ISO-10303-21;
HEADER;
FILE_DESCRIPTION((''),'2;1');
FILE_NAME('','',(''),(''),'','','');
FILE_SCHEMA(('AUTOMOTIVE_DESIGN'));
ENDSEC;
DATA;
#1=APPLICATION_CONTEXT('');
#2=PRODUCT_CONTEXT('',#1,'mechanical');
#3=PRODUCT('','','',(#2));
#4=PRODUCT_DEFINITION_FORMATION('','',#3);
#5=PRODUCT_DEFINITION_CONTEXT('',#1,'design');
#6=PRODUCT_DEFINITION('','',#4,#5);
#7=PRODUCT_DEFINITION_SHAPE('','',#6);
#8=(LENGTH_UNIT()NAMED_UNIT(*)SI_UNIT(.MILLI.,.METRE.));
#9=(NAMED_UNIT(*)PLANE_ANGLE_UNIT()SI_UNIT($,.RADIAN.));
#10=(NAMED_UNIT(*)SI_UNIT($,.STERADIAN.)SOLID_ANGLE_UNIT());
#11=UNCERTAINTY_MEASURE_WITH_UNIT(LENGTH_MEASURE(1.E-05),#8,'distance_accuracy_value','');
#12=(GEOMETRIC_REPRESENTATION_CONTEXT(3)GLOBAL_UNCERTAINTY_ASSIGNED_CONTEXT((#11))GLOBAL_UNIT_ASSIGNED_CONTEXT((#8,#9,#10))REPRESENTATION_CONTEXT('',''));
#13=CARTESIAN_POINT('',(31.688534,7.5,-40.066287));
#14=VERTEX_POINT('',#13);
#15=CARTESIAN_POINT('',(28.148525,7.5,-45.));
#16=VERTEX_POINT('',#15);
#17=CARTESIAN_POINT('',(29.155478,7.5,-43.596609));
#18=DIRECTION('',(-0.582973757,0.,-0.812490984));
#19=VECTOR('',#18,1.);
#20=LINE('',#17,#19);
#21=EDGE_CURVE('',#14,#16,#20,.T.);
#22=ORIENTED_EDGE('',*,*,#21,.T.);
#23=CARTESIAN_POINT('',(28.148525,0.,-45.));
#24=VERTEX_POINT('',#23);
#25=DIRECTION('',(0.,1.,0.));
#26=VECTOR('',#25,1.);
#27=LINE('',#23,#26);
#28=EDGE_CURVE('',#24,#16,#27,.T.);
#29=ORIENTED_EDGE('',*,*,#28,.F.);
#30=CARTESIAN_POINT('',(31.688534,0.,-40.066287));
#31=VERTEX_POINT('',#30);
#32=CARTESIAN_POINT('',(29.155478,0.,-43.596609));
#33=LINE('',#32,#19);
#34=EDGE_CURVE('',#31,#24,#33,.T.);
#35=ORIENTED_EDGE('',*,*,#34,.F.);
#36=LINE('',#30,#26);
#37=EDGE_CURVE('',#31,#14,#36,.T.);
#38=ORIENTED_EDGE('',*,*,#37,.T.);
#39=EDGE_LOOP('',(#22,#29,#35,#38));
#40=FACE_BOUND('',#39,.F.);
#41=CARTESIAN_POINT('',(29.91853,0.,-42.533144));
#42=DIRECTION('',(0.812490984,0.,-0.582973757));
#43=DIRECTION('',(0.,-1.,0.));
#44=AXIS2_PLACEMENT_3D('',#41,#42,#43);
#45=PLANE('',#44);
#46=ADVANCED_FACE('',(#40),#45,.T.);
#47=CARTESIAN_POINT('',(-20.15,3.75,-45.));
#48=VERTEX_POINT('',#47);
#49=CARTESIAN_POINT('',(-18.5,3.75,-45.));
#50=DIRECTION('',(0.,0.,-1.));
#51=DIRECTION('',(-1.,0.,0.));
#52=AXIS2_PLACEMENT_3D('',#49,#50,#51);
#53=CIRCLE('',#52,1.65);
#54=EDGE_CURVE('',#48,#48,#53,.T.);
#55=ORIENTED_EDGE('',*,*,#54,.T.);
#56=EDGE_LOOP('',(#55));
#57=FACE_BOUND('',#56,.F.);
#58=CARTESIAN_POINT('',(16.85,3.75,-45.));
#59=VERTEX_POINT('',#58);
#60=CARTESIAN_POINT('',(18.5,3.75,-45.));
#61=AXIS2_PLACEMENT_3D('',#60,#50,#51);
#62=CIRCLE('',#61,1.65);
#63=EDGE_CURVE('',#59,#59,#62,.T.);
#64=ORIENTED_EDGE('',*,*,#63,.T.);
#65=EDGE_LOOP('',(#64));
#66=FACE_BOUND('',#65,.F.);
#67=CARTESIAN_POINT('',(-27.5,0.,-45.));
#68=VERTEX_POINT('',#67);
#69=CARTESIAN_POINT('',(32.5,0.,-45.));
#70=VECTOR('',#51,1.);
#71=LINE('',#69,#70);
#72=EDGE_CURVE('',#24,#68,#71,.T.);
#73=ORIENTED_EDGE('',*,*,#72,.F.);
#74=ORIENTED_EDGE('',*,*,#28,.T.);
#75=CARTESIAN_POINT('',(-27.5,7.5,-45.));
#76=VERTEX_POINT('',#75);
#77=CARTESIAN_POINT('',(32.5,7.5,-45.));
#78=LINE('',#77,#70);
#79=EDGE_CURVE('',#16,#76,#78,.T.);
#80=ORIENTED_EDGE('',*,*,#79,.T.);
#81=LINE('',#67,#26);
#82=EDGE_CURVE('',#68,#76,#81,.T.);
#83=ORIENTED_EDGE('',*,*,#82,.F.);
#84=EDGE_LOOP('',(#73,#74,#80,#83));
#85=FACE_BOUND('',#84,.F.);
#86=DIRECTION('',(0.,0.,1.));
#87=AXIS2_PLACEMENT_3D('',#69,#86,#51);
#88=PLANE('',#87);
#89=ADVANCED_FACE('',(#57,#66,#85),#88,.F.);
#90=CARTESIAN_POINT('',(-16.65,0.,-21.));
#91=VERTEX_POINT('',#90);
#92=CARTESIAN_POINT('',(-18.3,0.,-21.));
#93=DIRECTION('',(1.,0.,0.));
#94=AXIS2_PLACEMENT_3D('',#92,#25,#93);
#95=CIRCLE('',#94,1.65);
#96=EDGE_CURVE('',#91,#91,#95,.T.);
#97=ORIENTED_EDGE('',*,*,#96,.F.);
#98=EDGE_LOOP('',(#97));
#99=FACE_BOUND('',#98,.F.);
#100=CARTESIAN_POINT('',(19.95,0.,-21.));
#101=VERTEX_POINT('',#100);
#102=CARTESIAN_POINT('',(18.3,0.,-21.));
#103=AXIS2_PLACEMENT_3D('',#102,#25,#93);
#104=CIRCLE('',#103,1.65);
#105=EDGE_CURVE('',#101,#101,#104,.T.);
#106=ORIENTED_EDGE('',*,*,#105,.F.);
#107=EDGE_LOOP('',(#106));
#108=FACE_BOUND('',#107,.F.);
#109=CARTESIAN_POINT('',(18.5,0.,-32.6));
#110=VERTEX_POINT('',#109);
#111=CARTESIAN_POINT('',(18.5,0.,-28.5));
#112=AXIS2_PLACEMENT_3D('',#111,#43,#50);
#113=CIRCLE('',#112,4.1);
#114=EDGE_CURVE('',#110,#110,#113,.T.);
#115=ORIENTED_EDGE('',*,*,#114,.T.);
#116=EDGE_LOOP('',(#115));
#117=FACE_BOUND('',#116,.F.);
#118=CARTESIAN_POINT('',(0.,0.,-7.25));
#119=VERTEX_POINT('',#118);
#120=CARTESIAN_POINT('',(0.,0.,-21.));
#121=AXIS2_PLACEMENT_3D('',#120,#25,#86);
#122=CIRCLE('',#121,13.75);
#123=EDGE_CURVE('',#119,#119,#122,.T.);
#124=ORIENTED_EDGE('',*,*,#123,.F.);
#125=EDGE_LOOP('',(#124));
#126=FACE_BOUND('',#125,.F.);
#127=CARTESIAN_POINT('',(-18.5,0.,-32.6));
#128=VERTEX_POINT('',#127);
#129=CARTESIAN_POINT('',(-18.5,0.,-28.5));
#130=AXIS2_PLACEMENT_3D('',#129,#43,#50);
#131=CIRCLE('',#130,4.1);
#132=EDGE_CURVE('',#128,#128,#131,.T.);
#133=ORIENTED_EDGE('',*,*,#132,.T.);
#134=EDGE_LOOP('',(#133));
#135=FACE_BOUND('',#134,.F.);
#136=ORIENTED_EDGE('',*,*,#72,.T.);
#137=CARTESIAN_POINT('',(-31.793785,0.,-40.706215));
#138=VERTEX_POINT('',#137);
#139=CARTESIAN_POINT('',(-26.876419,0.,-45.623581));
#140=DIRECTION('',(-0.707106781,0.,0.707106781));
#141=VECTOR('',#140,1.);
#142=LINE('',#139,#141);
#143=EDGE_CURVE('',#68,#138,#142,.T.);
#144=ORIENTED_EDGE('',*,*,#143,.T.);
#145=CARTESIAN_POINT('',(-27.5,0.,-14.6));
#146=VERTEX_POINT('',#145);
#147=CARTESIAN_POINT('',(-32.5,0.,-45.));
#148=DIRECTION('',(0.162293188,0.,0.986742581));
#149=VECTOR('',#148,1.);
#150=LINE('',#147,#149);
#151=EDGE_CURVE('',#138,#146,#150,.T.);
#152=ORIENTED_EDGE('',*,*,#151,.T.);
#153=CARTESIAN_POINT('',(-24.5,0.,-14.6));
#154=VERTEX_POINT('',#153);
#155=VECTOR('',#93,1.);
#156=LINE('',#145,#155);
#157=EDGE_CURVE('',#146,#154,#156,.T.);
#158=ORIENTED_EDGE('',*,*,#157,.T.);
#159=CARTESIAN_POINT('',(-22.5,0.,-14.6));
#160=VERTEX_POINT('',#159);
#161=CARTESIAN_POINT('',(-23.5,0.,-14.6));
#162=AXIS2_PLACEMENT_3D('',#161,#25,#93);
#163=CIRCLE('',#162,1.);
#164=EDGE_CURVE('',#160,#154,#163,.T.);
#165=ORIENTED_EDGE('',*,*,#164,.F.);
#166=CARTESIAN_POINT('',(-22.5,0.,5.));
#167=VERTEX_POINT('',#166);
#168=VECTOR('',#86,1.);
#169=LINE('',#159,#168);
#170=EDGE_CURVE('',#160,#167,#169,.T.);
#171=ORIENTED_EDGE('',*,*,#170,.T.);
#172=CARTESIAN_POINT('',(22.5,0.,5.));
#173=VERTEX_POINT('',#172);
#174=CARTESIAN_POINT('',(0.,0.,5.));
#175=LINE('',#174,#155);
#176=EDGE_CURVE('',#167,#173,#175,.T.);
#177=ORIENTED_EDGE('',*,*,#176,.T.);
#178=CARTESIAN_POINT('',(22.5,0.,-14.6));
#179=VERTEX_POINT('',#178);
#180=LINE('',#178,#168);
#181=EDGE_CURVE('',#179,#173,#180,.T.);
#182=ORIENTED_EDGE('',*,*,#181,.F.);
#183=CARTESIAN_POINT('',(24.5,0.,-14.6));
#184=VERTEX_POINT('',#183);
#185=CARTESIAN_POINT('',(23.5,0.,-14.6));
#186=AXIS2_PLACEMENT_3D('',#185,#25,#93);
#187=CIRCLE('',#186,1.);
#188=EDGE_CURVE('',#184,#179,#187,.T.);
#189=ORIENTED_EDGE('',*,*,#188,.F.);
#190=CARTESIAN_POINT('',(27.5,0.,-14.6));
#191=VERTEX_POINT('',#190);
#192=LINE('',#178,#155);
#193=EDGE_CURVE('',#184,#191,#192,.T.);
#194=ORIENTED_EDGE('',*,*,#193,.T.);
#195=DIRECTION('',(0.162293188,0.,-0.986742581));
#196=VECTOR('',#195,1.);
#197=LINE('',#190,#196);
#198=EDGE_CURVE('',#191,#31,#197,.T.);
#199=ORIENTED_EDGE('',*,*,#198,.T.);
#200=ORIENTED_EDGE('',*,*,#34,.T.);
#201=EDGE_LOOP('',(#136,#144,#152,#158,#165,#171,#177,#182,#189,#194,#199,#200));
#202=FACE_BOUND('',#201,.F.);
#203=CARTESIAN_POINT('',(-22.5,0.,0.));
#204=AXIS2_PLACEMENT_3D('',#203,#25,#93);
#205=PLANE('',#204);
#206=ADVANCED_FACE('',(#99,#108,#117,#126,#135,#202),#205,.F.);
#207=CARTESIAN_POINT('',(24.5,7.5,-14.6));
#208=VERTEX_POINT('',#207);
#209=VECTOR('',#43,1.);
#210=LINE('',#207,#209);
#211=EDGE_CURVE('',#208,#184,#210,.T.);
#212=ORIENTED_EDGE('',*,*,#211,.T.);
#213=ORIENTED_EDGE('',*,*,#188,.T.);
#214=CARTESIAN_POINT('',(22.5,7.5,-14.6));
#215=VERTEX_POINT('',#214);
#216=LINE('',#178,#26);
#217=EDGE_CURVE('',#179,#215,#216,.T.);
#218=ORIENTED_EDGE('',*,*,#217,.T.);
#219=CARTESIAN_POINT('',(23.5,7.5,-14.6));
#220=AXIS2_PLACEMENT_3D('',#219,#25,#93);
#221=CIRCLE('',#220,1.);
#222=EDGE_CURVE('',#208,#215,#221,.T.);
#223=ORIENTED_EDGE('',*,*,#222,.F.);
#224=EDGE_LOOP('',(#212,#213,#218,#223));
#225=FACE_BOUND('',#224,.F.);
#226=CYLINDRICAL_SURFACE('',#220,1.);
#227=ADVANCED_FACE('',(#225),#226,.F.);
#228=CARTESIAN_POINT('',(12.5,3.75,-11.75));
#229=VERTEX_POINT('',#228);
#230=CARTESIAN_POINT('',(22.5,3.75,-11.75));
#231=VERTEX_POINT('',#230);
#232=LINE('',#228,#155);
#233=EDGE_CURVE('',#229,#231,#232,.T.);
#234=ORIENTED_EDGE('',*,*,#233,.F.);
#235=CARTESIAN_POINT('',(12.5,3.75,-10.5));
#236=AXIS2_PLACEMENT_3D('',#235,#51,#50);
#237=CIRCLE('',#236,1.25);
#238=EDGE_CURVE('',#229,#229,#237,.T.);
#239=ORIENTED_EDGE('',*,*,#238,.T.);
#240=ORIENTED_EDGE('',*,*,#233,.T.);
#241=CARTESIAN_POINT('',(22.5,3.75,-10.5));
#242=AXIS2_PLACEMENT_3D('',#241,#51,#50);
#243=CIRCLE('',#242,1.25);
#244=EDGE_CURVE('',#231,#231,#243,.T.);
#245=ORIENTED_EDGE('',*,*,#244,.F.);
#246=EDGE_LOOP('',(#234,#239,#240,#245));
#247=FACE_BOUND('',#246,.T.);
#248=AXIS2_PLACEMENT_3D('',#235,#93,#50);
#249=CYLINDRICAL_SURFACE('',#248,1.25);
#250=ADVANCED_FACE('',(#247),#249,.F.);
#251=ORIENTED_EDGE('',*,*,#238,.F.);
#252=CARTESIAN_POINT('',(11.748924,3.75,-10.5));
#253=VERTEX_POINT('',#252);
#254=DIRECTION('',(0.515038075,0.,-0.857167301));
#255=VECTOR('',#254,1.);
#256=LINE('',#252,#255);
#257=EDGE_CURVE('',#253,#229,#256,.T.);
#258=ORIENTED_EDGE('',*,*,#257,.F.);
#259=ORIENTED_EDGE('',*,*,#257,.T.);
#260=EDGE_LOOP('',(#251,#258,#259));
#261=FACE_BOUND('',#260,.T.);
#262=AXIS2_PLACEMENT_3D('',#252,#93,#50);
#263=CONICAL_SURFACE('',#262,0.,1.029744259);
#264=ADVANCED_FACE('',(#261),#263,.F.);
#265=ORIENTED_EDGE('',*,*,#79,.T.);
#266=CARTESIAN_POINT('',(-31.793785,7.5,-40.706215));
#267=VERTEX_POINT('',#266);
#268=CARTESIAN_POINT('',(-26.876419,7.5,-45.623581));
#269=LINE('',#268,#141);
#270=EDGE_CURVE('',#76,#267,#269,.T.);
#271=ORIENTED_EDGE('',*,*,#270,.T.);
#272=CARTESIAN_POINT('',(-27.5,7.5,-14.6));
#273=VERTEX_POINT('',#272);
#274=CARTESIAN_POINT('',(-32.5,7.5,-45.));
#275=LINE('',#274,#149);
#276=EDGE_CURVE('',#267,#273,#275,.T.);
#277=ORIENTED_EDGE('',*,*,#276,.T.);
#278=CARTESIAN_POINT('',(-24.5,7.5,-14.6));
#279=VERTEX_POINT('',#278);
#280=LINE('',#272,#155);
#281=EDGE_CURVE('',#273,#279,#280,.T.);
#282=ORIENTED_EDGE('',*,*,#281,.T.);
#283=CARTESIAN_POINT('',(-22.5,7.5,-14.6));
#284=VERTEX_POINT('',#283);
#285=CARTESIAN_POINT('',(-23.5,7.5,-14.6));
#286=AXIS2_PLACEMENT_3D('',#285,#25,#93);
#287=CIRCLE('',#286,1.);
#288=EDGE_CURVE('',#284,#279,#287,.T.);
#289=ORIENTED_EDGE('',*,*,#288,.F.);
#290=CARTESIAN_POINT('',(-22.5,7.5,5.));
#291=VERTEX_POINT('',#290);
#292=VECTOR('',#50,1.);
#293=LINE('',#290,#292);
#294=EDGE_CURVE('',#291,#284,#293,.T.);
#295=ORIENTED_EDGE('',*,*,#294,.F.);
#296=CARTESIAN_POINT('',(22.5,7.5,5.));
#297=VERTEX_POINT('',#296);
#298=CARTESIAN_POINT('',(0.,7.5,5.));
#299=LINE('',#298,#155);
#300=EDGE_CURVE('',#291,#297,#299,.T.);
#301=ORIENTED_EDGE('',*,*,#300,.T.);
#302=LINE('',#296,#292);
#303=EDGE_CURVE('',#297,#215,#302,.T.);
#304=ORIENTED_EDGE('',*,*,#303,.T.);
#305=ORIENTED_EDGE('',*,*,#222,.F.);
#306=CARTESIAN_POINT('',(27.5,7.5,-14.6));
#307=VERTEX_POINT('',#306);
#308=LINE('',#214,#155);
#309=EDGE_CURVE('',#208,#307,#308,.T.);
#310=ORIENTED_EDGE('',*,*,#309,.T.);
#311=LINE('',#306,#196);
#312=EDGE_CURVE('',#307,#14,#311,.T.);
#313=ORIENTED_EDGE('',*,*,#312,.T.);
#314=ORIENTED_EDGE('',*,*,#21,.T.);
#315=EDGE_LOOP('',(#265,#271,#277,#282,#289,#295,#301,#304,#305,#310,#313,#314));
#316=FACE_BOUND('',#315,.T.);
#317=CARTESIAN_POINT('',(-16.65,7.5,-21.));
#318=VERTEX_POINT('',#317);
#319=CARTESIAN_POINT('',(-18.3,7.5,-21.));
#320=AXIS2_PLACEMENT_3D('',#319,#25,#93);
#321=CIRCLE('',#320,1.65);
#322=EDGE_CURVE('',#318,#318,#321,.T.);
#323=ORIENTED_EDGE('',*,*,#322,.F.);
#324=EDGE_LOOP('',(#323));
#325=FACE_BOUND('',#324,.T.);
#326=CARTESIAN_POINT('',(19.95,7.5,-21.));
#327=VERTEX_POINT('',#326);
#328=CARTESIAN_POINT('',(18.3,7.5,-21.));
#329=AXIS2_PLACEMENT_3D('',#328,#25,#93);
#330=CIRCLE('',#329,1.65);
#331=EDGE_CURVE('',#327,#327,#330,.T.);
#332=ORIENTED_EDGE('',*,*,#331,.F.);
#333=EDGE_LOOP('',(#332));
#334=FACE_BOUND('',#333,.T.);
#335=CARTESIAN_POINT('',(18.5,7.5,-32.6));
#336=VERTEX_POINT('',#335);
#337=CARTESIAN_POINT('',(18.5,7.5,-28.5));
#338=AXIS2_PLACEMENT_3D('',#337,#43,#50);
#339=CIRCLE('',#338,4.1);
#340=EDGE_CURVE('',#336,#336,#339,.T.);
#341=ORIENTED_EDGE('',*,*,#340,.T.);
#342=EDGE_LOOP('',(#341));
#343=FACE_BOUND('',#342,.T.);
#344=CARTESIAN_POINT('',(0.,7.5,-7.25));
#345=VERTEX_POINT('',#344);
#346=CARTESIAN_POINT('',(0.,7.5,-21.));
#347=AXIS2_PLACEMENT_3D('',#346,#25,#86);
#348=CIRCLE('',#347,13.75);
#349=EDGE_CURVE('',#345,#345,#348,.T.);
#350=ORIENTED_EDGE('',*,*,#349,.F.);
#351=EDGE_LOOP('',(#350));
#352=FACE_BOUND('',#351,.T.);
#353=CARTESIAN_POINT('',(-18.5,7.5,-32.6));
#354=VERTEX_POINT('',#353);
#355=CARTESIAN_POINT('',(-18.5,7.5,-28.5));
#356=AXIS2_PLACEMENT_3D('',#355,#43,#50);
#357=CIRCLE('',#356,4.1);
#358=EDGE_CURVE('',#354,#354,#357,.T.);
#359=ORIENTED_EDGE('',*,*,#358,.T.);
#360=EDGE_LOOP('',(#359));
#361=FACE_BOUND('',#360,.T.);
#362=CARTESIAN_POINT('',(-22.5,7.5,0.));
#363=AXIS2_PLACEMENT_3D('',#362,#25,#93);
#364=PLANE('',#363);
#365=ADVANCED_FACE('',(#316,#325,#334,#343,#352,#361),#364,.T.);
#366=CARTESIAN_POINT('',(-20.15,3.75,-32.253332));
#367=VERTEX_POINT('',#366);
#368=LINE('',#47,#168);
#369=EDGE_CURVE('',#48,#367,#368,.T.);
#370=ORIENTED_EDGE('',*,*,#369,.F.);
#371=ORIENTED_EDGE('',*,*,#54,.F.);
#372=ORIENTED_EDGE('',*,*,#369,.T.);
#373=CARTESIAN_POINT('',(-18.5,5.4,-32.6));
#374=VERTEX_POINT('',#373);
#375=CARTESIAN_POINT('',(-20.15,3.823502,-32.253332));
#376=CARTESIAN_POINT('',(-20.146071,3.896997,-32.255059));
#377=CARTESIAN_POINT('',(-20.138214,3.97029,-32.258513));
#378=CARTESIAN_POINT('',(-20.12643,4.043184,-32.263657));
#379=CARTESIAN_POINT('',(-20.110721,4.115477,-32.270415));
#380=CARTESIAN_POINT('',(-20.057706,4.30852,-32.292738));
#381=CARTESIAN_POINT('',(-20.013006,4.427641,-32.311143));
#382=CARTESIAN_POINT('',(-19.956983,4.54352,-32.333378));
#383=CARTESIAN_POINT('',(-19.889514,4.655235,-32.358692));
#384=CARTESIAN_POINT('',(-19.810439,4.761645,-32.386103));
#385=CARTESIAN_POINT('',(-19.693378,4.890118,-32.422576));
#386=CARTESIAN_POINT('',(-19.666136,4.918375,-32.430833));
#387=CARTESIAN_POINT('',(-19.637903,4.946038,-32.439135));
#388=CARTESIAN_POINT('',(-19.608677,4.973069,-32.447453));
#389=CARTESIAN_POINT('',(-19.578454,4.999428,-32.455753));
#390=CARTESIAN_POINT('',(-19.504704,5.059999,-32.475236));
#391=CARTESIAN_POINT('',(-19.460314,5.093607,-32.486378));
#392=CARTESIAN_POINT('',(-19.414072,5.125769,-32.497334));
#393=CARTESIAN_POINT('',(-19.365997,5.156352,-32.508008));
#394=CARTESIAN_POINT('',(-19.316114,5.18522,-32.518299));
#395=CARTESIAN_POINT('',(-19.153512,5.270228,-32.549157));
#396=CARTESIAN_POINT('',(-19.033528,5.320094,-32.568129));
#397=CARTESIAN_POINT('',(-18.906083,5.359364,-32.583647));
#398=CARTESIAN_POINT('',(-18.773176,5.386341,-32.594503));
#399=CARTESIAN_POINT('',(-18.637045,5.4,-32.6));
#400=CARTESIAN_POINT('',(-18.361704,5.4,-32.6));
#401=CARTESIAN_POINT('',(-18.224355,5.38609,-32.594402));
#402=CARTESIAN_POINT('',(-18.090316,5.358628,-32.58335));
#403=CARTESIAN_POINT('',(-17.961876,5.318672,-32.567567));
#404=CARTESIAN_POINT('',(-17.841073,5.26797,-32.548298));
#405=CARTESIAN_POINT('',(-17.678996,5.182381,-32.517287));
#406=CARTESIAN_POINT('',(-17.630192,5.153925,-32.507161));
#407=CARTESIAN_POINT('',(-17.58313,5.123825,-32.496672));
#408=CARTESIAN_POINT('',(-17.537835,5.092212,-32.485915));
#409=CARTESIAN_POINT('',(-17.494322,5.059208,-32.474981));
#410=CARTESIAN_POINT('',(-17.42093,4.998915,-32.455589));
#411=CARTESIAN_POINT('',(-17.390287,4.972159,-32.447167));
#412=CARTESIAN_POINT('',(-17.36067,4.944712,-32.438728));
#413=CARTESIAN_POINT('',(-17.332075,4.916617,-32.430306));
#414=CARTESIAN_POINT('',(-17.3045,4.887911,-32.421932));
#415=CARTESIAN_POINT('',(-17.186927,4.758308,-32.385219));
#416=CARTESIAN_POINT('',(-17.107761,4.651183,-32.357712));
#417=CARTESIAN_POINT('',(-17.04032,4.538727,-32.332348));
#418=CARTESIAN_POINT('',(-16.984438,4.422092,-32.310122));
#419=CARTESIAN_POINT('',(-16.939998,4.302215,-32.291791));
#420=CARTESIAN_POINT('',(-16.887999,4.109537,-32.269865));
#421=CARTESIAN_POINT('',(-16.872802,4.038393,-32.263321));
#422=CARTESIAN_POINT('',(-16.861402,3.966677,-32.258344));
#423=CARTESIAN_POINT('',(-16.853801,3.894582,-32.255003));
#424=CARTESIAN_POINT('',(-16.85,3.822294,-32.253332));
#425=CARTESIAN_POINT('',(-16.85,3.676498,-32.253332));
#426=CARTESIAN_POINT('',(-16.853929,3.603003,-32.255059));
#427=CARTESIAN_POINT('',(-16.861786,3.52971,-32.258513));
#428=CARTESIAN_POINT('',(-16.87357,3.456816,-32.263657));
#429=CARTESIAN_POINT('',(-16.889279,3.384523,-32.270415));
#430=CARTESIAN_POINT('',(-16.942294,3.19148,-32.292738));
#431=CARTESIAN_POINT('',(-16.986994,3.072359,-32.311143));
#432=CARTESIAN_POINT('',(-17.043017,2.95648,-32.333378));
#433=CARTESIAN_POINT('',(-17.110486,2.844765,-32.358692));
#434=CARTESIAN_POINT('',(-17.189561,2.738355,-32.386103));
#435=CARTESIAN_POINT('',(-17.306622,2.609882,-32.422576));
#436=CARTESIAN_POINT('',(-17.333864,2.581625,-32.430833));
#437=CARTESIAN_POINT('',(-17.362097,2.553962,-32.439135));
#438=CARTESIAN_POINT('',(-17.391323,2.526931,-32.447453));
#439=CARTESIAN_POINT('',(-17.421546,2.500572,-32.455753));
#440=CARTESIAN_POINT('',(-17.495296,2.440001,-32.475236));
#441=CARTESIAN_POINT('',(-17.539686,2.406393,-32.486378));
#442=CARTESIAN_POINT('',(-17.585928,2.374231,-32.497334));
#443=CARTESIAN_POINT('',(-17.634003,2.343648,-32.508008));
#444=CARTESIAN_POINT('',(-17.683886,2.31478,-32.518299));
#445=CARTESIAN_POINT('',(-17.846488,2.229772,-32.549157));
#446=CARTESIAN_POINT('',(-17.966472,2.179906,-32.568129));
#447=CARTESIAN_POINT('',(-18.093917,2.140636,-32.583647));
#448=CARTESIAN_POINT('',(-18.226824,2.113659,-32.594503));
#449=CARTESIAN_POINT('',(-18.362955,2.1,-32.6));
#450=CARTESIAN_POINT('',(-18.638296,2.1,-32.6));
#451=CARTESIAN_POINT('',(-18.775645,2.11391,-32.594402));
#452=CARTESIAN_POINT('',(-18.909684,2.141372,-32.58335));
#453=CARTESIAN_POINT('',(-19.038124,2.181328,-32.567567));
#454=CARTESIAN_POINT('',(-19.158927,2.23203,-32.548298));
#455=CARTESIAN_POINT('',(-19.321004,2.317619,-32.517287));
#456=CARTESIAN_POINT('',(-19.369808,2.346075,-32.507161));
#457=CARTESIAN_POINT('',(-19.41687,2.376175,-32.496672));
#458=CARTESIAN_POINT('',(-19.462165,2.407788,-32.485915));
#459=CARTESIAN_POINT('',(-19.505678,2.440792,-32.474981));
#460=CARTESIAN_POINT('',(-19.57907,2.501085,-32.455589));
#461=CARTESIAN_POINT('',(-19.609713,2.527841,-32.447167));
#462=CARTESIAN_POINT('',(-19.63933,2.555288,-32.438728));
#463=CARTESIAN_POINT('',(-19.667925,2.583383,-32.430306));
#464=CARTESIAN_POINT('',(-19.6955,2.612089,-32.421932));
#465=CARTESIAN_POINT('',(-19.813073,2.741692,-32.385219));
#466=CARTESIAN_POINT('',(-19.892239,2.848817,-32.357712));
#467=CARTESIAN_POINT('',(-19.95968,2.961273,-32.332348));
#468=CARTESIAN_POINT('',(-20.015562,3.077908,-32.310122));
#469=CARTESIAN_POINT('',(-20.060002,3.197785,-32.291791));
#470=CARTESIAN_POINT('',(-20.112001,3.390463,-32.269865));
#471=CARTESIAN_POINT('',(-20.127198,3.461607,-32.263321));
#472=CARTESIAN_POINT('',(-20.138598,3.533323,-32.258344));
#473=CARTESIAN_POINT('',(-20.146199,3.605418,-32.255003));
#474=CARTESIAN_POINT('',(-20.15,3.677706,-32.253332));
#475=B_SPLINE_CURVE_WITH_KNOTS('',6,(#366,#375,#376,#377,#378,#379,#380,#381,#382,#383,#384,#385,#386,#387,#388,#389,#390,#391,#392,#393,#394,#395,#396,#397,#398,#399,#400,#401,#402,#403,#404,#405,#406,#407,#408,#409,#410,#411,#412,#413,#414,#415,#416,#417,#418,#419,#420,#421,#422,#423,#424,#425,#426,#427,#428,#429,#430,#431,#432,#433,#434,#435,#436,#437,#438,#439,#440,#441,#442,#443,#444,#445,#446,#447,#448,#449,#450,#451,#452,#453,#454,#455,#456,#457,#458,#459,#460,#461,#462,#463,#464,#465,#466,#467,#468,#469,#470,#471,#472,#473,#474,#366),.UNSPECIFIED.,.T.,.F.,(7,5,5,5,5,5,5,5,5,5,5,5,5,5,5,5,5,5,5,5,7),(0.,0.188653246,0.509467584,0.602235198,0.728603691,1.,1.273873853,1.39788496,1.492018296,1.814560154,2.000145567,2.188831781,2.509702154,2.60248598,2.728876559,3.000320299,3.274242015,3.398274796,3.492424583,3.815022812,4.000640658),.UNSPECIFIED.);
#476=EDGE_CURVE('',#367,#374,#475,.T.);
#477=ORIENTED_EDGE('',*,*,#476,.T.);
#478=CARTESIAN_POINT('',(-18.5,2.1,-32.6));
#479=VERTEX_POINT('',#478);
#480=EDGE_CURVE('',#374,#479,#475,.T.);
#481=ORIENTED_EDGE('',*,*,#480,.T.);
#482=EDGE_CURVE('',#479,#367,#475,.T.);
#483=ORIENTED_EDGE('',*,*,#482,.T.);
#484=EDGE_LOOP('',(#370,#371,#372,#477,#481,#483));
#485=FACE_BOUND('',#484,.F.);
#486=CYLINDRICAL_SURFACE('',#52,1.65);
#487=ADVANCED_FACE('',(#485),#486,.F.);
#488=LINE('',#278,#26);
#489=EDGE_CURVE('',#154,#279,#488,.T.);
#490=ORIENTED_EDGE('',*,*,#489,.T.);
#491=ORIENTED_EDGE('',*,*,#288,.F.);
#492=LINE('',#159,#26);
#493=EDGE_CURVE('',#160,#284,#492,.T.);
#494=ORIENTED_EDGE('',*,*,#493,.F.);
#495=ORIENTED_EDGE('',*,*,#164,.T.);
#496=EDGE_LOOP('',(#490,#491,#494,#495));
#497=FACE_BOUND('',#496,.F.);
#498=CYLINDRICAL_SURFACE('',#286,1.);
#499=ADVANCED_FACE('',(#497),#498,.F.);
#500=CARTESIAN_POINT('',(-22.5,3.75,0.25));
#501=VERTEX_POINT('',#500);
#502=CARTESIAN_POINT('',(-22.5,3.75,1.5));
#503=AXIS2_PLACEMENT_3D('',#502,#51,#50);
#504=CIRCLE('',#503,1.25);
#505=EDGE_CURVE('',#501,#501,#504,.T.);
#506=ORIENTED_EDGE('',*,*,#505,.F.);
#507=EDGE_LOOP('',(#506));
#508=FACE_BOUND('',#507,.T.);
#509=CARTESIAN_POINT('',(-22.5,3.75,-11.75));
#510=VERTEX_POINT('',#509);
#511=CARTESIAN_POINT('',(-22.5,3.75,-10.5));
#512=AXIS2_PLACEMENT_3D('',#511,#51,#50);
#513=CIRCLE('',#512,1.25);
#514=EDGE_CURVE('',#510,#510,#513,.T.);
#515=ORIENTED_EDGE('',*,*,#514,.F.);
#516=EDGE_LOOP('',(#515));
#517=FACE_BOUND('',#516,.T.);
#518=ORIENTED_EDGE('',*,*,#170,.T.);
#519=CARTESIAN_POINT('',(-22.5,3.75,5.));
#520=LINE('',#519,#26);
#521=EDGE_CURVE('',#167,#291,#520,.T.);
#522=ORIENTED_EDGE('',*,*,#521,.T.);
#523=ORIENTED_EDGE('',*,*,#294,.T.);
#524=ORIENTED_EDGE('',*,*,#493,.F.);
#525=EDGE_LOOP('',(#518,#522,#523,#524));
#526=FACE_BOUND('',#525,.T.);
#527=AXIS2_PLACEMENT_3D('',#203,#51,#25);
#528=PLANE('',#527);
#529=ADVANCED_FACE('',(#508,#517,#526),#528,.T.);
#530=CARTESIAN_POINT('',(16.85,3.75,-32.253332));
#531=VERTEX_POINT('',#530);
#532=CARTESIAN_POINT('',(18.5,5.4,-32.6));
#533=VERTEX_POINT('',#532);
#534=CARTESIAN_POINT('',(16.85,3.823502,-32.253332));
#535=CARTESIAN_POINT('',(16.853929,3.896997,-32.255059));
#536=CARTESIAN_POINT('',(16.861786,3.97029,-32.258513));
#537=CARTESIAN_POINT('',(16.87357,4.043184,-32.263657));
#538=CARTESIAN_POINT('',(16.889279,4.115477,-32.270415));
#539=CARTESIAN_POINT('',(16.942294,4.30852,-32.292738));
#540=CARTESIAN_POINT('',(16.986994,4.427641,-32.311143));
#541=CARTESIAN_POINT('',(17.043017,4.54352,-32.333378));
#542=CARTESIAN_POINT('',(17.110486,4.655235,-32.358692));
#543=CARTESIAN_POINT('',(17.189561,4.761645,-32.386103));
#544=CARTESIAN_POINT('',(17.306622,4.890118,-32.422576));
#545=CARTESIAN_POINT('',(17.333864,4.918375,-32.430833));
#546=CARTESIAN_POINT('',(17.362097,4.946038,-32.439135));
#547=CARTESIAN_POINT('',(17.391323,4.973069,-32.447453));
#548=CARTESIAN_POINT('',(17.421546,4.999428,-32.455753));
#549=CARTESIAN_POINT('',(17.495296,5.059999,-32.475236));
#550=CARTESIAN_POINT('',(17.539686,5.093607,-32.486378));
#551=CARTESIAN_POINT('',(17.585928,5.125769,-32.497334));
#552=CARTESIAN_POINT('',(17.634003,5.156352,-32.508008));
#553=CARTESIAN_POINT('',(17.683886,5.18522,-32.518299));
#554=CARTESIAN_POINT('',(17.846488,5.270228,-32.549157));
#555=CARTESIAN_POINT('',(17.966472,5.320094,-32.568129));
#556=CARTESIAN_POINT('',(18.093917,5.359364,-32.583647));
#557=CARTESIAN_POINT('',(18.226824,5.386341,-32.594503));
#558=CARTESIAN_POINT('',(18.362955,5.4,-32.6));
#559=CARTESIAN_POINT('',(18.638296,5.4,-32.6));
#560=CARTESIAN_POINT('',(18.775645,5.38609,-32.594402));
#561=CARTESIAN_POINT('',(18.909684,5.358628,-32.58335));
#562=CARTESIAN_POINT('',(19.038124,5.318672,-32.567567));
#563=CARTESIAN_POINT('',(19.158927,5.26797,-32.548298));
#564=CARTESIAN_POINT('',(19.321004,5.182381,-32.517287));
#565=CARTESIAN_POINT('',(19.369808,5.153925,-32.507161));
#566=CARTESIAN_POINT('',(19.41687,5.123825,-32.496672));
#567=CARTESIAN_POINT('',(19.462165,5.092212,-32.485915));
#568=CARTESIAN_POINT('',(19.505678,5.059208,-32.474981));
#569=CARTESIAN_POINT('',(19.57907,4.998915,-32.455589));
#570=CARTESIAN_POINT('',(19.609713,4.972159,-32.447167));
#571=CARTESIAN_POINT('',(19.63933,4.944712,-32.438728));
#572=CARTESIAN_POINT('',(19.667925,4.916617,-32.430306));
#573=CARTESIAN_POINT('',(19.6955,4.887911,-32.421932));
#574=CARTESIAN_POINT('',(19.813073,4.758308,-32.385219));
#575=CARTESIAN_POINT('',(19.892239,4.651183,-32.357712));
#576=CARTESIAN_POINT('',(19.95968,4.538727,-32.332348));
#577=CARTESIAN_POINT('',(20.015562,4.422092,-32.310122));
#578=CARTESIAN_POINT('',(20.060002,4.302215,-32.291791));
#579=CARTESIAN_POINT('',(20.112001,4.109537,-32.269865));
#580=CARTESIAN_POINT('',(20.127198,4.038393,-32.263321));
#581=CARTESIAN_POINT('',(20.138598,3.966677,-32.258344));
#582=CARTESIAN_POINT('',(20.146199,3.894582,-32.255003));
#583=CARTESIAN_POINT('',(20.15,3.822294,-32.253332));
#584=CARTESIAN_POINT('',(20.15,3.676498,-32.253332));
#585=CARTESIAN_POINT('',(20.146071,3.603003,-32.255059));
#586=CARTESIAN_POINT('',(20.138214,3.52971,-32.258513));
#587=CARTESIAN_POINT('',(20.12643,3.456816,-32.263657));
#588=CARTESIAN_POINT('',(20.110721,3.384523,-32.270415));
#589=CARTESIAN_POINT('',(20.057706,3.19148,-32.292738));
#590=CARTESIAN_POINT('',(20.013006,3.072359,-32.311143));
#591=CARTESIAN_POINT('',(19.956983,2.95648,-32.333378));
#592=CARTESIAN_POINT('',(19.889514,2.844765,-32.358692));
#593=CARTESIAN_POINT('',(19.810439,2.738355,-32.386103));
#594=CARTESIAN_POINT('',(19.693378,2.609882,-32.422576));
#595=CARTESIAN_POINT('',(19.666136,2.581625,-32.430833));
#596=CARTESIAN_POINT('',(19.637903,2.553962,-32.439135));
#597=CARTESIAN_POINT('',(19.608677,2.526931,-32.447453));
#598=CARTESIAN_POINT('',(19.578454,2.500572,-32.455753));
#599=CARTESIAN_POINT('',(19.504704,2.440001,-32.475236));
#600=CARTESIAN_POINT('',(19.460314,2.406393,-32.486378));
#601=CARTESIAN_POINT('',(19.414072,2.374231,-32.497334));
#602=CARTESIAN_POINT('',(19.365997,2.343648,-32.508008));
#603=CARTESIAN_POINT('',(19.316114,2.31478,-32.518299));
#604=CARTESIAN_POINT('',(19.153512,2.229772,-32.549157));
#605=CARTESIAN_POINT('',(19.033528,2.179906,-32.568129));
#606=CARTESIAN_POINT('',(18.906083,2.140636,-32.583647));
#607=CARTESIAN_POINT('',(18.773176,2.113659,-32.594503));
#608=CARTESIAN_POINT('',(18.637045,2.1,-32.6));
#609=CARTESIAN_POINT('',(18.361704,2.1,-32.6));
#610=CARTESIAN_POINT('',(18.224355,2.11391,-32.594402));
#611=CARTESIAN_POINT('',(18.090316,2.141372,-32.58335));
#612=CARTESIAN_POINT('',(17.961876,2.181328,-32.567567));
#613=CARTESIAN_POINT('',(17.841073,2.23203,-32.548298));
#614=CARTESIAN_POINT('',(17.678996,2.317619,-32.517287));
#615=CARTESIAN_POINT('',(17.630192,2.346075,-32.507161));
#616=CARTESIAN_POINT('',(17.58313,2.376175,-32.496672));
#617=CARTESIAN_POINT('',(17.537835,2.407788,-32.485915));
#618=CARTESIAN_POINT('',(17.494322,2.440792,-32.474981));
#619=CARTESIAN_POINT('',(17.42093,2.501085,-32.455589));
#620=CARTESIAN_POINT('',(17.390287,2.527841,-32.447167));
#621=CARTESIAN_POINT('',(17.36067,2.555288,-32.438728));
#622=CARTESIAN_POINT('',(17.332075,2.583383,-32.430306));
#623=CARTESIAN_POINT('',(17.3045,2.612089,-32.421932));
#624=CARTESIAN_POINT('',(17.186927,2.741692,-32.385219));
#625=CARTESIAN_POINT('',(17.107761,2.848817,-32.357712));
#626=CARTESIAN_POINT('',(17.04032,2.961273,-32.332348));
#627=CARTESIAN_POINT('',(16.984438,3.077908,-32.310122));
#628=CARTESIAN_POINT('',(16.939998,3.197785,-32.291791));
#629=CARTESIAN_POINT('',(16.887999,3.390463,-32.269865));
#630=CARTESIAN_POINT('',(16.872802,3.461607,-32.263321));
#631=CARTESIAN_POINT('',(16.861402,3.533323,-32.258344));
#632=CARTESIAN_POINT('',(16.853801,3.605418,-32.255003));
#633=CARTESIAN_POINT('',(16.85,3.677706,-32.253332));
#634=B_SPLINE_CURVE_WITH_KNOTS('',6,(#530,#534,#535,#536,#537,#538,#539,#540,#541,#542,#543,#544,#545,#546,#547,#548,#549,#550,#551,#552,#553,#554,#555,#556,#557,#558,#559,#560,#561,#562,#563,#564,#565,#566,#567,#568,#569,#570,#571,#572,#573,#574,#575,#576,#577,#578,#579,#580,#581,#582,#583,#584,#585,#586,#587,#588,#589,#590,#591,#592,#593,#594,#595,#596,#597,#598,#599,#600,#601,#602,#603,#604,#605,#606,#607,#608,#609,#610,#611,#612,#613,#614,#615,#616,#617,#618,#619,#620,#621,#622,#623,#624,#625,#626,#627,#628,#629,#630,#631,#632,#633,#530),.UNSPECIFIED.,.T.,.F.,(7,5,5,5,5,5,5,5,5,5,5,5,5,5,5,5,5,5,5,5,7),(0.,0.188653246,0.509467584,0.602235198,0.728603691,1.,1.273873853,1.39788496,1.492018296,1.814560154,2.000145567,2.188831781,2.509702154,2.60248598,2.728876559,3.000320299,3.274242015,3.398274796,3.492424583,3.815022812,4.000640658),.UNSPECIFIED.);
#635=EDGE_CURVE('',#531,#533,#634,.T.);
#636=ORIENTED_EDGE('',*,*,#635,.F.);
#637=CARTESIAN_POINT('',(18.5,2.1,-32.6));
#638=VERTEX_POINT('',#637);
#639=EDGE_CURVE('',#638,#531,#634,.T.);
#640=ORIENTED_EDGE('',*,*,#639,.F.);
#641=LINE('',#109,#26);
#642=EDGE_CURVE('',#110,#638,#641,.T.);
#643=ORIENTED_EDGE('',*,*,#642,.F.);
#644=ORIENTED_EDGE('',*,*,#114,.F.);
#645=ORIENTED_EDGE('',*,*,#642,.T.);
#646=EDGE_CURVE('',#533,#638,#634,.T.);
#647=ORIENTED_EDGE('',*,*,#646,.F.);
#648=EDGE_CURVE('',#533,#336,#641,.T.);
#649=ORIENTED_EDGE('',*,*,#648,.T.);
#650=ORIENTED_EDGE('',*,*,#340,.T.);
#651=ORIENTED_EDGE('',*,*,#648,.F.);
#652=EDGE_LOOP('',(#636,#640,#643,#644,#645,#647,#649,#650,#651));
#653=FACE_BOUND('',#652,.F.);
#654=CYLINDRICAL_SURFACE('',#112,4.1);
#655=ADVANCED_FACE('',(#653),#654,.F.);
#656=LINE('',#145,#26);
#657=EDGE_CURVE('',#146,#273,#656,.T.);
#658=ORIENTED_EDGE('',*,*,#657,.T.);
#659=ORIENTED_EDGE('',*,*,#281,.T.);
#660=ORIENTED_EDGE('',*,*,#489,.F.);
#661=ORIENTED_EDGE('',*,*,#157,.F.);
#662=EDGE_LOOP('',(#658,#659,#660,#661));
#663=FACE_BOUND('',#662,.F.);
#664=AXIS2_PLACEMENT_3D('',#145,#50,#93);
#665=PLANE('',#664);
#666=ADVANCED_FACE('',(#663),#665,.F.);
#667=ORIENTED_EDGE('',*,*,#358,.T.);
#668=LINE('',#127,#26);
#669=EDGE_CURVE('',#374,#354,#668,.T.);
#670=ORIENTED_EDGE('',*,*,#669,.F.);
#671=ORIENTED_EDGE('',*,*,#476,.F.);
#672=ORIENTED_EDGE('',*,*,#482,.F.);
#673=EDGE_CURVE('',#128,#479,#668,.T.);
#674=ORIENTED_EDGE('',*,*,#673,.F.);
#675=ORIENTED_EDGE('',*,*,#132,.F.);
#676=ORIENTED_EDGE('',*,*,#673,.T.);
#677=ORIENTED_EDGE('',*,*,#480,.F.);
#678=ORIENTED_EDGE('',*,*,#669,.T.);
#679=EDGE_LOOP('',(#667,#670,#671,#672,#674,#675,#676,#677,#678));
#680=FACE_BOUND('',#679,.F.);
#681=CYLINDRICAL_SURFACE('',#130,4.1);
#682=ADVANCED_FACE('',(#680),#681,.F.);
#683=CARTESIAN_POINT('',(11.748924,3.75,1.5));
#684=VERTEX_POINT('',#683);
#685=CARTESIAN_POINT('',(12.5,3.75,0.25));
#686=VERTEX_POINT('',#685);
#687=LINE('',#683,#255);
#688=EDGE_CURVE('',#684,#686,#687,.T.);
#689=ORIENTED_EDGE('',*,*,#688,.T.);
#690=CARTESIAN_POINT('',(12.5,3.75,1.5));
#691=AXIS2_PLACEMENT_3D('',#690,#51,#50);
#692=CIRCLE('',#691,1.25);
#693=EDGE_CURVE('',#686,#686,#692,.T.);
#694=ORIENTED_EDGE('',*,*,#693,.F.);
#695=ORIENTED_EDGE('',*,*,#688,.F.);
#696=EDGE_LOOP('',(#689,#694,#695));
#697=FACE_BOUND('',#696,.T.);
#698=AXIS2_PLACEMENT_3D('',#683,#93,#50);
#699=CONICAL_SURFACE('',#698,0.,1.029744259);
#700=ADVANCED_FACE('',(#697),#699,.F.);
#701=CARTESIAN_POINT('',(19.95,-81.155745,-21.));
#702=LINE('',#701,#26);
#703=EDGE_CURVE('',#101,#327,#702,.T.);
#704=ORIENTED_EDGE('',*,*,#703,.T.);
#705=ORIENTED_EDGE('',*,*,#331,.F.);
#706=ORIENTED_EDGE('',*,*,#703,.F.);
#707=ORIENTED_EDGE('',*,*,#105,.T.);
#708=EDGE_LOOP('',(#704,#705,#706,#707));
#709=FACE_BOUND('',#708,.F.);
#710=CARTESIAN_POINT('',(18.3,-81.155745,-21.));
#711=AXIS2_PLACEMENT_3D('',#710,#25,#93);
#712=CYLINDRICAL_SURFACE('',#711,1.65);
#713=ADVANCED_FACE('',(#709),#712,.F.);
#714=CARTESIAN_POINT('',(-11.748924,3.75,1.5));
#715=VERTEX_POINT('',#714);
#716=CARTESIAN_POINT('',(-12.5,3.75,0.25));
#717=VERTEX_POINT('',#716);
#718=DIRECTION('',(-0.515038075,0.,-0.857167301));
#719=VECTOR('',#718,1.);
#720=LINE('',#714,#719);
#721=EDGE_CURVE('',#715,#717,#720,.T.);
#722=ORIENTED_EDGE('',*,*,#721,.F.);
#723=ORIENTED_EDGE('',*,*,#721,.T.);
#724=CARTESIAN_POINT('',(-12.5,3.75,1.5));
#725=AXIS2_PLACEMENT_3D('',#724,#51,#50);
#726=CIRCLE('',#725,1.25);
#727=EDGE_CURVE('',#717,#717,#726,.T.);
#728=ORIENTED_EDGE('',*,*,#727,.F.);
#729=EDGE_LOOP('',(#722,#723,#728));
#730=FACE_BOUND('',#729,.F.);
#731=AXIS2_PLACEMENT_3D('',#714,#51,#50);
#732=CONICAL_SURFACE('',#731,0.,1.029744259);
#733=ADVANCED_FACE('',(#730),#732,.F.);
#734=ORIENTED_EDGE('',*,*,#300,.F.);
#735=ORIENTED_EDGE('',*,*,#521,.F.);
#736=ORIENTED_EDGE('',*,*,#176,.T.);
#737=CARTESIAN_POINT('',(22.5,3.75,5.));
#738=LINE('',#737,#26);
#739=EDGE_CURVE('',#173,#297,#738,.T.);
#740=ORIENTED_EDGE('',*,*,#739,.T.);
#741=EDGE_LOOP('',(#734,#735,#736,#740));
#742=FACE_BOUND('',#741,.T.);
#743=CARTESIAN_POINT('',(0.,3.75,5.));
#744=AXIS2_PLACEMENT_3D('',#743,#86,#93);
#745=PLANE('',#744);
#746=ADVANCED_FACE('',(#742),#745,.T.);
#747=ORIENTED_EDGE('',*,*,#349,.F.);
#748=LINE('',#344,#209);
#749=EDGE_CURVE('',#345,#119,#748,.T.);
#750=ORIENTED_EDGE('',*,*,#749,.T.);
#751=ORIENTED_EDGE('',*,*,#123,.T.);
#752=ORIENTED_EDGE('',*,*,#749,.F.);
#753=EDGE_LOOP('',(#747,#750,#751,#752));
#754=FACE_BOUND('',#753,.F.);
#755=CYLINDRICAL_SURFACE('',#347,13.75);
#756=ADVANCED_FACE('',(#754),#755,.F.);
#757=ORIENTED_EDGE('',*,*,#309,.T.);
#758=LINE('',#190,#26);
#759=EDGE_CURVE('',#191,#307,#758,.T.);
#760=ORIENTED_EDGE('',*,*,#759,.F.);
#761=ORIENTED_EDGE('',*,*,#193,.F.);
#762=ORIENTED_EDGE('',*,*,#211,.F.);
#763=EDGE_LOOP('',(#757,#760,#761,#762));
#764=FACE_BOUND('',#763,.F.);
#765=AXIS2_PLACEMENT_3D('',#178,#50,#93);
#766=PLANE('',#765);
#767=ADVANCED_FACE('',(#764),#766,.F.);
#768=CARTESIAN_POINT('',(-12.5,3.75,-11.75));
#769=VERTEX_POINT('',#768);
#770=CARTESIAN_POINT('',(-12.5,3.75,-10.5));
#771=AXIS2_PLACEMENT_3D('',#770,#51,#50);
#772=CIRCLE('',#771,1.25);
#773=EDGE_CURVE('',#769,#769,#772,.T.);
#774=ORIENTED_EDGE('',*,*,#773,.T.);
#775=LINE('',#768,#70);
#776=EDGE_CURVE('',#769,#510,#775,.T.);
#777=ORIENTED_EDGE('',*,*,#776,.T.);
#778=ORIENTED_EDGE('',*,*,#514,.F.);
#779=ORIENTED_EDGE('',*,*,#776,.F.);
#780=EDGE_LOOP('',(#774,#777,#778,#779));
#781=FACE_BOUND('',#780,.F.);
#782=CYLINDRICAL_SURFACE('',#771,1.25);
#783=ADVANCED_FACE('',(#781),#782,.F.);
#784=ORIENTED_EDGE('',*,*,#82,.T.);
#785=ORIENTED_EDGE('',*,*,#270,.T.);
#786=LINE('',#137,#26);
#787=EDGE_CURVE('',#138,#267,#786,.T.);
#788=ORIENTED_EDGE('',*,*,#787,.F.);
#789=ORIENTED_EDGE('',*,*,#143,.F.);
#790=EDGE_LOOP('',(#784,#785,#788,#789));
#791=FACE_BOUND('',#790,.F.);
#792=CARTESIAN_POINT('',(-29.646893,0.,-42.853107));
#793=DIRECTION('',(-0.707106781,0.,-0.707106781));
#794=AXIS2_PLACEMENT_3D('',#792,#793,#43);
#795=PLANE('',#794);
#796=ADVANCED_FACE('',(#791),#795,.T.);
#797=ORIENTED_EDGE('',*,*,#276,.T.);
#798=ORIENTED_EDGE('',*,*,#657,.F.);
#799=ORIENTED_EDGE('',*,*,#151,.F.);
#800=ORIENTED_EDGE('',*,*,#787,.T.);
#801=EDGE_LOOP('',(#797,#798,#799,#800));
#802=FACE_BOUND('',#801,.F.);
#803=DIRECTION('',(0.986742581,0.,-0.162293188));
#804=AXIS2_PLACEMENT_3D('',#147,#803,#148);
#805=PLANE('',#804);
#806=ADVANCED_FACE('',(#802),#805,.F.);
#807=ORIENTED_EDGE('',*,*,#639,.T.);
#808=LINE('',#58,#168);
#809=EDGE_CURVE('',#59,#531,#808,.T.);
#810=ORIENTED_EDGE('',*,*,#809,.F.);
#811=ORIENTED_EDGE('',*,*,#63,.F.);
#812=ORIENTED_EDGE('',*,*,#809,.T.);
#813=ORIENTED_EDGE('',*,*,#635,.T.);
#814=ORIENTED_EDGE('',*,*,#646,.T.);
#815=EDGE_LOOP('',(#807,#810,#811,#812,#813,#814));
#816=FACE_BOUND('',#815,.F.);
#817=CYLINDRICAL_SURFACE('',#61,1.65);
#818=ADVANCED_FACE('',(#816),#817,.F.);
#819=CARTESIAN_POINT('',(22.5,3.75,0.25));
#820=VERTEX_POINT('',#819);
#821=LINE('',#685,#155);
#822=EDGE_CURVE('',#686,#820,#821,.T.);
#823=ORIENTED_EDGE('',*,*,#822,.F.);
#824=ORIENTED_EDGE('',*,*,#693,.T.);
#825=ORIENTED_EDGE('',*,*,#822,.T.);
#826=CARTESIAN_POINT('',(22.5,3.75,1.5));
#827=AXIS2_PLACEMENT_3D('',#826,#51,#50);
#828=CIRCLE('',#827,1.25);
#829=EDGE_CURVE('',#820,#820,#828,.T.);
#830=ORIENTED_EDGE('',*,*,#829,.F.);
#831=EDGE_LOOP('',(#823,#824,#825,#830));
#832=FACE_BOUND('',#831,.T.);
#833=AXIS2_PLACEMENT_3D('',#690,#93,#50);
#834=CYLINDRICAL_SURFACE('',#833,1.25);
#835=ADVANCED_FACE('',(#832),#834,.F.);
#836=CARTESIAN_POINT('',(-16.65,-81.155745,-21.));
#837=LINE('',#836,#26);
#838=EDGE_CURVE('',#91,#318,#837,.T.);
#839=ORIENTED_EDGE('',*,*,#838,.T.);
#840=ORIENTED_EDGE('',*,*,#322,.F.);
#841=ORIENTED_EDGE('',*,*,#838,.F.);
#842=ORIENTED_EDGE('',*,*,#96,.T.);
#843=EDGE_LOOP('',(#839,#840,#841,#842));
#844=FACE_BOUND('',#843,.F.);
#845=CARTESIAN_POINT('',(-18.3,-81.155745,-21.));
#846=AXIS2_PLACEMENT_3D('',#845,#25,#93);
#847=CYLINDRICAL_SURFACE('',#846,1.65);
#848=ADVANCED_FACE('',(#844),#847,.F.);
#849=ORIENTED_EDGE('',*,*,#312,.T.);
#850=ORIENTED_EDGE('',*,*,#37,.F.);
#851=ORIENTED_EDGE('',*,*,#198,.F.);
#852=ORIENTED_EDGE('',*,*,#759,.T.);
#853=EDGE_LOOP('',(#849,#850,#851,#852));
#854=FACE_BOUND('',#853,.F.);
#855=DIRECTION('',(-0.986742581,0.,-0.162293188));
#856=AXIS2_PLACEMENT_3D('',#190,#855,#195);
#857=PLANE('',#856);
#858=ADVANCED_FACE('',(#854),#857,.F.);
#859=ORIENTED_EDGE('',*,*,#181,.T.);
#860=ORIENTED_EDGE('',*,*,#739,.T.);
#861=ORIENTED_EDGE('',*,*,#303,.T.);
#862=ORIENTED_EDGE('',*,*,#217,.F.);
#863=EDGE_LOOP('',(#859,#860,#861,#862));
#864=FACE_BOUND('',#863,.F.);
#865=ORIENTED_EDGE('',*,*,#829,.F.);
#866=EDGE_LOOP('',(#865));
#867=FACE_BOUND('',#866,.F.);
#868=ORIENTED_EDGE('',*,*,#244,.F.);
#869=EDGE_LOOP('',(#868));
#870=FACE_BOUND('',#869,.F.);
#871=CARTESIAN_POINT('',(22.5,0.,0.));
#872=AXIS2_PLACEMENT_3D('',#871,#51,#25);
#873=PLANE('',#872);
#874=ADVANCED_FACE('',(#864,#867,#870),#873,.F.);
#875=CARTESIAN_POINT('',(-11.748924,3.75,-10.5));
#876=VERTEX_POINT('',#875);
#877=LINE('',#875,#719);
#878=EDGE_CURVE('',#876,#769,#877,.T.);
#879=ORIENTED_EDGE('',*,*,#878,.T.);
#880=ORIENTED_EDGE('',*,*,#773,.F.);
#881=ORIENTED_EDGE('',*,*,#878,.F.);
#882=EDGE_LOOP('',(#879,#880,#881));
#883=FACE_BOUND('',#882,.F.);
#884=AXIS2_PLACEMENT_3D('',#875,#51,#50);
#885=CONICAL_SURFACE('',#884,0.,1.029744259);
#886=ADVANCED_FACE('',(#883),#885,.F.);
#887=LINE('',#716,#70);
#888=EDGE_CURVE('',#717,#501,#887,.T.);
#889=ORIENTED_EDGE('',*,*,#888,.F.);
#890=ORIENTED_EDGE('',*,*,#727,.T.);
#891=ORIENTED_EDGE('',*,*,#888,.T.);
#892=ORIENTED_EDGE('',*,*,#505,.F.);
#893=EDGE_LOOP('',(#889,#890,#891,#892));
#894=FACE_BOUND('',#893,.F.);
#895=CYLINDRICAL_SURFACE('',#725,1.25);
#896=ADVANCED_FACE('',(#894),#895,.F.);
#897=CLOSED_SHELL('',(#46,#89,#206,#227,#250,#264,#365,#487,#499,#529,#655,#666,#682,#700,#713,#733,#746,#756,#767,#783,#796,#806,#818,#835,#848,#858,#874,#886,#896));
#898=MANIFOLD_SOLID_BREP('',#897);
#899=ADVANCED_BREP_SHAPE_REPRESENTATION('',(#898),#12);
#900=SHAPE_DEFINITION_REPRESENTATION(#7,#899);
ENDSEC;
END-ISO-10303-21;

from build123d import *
from OCP.BRepFilletAPI import BRepFilletAPI_MakeChamfer

# Parameters (mm, degrees)
BOSS_EXTRUDE1_DEPTH            = 7.5
CUT_EXTRUDE1_REACH             = 58.013
SKETCH2_R                      = 1
CUT_EXTRUDE1_DIRECTION_2_DEPTH = 57.013391256
CHAMFER1_SIZE                  = 5
CHAMFER1_SIZE2                 = 4.351474633
CUT_EXTRUDE2_REACH             = 57.607
SKETCH3_R                      = 13.75
SKETCH11_W                     = 45
SKETCH11_H                     = 7.5
BOSS_EXTRUDE2_DEPTH            = 5
M4_TAPPED_HOLE1_D              = 3.3
CUT_EXTRUDE3_REACH             = 57.607
SKETCH6_R                      = 4.1
M4_TAPPED_HOLE2_REACH          = 61.725
M4_TAPPED_HOLE2_BORE_R         = 1.65
M3_TAPPED_HOLE1_AT_2_COUNT     = 2
M3_TAPPED_HOLE1_AT_2_PITCH     = 12


with BuildPart() as part:
    # Sketch1 → Boss-Extrude1 (new body)
    with BuildSketch(Plane(origin=(0, 0, 0), x_dir=(1, 0, 0), z_dir=(0, 1, 0))):
        Polygon((-22.5, 0), (22.5, 0), (22.5, 14.6), (27.5, 14.6), (32.5, 45), (-32.5, 45), (-27.5, 14.6), (-22.5, 14.6), align=None)
    extrude(amount=BOSS_EXTRUDE1_DEPTH)

    # Sketch2 → Cut-Extrude1 (cut, up to next)
    with BuildSketch(Plane(origin=(0, 7.5, 0), x_dir=(1, 0, 0), z_dir=(0, 1, 0)), mode=Mode.PRIVATE) as cut_extrude1_sk1:
        with Locations((-23.5, 14.6)):
            Circle(SKETCH2_R)
    cut_extrude1_tool1 = extrude(cut_extrude1_sk1.sketch, amount=-CUT_EXTRUDE1_REACH, mode=Mode.PRIVATE) & part.part
    # Sketch2 → Cut-Extrude1 (cut, up to next)
    with BuildSketch(Plane(origin=(0, 7.5, 0), x_dir=(1, 0, 0), z_dir=(0, 1, 0)), mode=Mode.PRIVATE) as cut_extrude1_sk2:
        with Locations((23.5, 14.6)):
            Circle(SKETCH2_R)
    cut_extrude1_tool2 = extrude(cut_extrude1_sk2.sketch, amount=-CUT_EXTRUDE1_REACH, mode=Mode.PRIVATE) & part.part
    add(cut_extrude1_tool1.solids().sort_by_distance((-23.5, 7.5, -14.6))[0], mode=Mode.SUBTRACT)
    add(cut_extrude1_tool2.solids().sort_by_distance((23.5, 7.5, -14.6))[0], mode=Mode.SUBTRACT)

    # Sketch2 → Cut-Extrude1 direction 2 (cut)
    with BuildSketch(Plane(origin=(0, 7.5, 0), x_dir=(1, 0, 0), z_dir=(0, 1, 0))):
        with Locations((-23.5, 14.6)):
            Circle(SKETCH2_R)
        with Locations((23.5, 14.6)):
            Circle(SKETCH2_R)
    extrude(amount=CUT_EXTRUDE1_DIRECTION_2_DEPTH, mode=Mode.SUBTRACT)

    # Chamfer1: one chamfer whose edges measure the first distance from different faces: ONE call of the kernel's chamfer builder (chamfer() names one face for all edges)
    chamfer1_edges_1 = [part.edges().sort_by_distance(p)[0] for p in [
        (-32.5, 3.75, -45),
    ]]
    chamfer1_side_1 = [part.faces().sort_by_distance(p)[0] for p in [
        (0, 3.75, -45),
    ]]
    chamfer1_edges_2 = [part.edges().sort_by_distance(p)[0] for p in [
        (32.5, 3.75, -45),
    ]]
    chamfer1_side_2 = [part.faces().sort_by_distance(p)[0] for p in [
        (30, 3.75, -29.8),
    ]]
    chamfer1 = BRepFilletAPI_MakeChamfer(part.part.solid().wrapped)
    for e in chamfer1_edges_1:
        chamfer1.Add(CHAMFER1_SIZE, CHAMFER1_SIZE2, e.wrapped, chamfer1_side_1[0].wrapped)  # the first distance lies on this face
    for e in chamfer1_edges_2:
        chamfer1.Add(CHAMFER1_SIZE, CHAMFER1_SIZE2, e.wrapped, chamfer1_side_2[0].wrapped)  # the first distance lies on this face
    add(Compound.cast(chamfer1.Shape()), mode=Mode.REPLACE)

    # Sketch3 → Cut-Extrude2 (cut, up to next)
    with BuildSketch(Plane(origin=(0, 7.5, 0), x_dir=(1, 0, 0), z_dir=(0, 1, 0)), mode=Mode.PRIVATE) as cut_extrude2_sk1:
        with Locations(Location((0, 21, 0), (0, 0, 270))):
            Circle(SKETCH3_R)
    cut_extrude2_tool1 = extrude(cut_extrude2_sk1.sketch, amount=-CUT_EXTRUDE2_REACH, mode=Mode.PRIVATE) & part.part
    add(cut_extrude2_tool1.solids().sort_by_distance((0, 7.5, -21))[0], mode=Mode.SUBTRACT)

    # Sketch11 → Boss-Extrude2 (add)
    with BuildSketch(Plane.XY):
        with Locations((0, 3.75)):
            Rectangle(SKETCH11_W, SKETCH11_H)
    extrude(amount=BOSS_EXTRUDE2_DEPTH)

    # M4 Tapped Hole1 (through all)
    with Locations(Plane(origin=(0, 0, 0), x_dir=(-1, 0, 0), z_dir=(0, -1, 0))):
        with Locations((-18.3, 21), (18.3, 21)):
            Hole(M4_TAPPED_HOLE1_D / 2)

    # Sketch6 → Cut-Extrude3 (cut, up to next)
    with BuildSketch(Plane.XZ, mode=Mode.PRIVATE) as cut_extrude3_sk1:
        with Locations(Location((18.5, -28.5, 0), (0, 0, 270))):
            Circle(SKETCH6_R)
    cut_extrude3_tool1 = extrude(cut_extrude3_sk1.sketch, amount=-CUT_EXTRUDE3_REACH, mode=Mode.PRIVATE) & part.part
    # Sketch6 → Cut-Extrude3 (cut, up to next)
    with BuildSketch(Plane.XZ, mode=Mode.PRIVATE) as cut_extrude3_sk2:
        with Locations(Location((-18.5, -28.5, 0), (0, 0, 270))):
            Circle(SKETCH6_R)
    cut_extrude3_tool2 = extrude(cut_extrude3_sk2.sketch, amount=-CUT_EXTRUDE3_REACH, mode=Mode.PRIVATE) & part.part
    add(cut_extrude3_tool1.solids().sort_by_distance((18.5, 0, -28.5))[0], mode=Mode.SUBTRACT)
    add(cut_extrude3_tool2.solids().sort_by_distance((-18.5, 0, -28.5))[0], mode=Mode.SUBTRACT)

    # M4 Tapped Hole2 bore → M4 Tapped Hole2 (cut, up to next)
    with BuildSketch(Plane(origin=(0, 0, -45), x_dir=(-1, 0, 0), z_dir=(0, 0, -1)), mode=Mode.PRIVATE) as m4_tapped_hole2_sk1:
        with Locations((-18.5, 3.75)):
            Circle(M4_TAPPED_HOLE2_BORE_R)
    m4_tapped_hole2_tool1 = extrude(m4_tapped_hole2_sk1.sketch, amount=-M4_TAPPED_HOLE2_REACH, mode=Mode.PRIVATE) & part.part
    # M4 Tapped Hole2 bore → M4 Tapped Hole2 (cut, up to next)
    with BuildSketch(Plane(origin=(0, 0, -45), x_dir=(-1, 0, 0), z_dir=(0, 0, -1)), mode=Mode.PRIVATE) as m4_tapped_hole2_sk2:
        with Locations((18.5, 3.75)):
            Circle(M4_TAPPED_HOLE2_BORE_R)
    m4_tapped_hole2_tool2 = extrude(m4_tapped_hole2_sk2.sketch, amount=-M4_TAPPED_HOLE2_REACH, mode=Mode.PRIVATE) & part.part
    add(m4_tapped_hole2_tool1.solids().sort_by_distance((18.5, 3.75, -45))[0], mode=Mode.SUBTRACT)
    add(m4_tapped_hole2_tool2.solids().sort_by_distance((-18.5, 3.75, -45))[0], mode=Mode.SUBTRACT)

    # Sketch10 → M3 Tapped Hole1 (revolve, cut)
    with BuildSketch(Plane(origin=(22.5, 3.75, -10.5), x_dir=(0, 0, -1), z_dir=(0, 1, 0))):
        Polygon((0, 0), (0, 10.751075774), (1.25, 10), (1.25, 0), align=None)
    m3_tapped_hole1 = revolve(axis=Axis((28.85, 3.75, -10.5), (-1, 0, 0)), mode=Mode.SUBTRACT)

    # M3 Tapped Hole1 at 2: M3 Tapped Hole1 ×2
    with Locations(*[(0, 0, i * M3_TAPPED_HOLE1_AT_2_PITCH) for i in range(1, M3_TAPPED_HOLE1_AT_2_COUNT)]):
        add(m3_tapped_hole1, mode=Mode.SUBTRACT)

    # Mirror1: M3 Tapped Hole1 across plane
    add(m3_tapped_hole1.mirror(Plane(origin=(0, 0, 0), x_dir=(0, 0, 1), z_dir=(1, 0, 0))), mode=Mode.SUBTRACT)

    # Mirror1 copy 1 sketch → Mirror1 copy 1 (revolve, cut)
    with BuildSketch(Plane(origin=(-22.5, 3.75, 1.5), x_dir=(0, 0, -1), z_dir=(0, 1, 0))):
        Polygon((0, 0), (0, -10.751075774), (1.25, -10), (1.25, 0), align=None)
    revolve(axis=Axis((-28.85, 3.75, 1.5), (-1, 0, 0)), mode=Mode.SUBTRACT)


solid = part.part
